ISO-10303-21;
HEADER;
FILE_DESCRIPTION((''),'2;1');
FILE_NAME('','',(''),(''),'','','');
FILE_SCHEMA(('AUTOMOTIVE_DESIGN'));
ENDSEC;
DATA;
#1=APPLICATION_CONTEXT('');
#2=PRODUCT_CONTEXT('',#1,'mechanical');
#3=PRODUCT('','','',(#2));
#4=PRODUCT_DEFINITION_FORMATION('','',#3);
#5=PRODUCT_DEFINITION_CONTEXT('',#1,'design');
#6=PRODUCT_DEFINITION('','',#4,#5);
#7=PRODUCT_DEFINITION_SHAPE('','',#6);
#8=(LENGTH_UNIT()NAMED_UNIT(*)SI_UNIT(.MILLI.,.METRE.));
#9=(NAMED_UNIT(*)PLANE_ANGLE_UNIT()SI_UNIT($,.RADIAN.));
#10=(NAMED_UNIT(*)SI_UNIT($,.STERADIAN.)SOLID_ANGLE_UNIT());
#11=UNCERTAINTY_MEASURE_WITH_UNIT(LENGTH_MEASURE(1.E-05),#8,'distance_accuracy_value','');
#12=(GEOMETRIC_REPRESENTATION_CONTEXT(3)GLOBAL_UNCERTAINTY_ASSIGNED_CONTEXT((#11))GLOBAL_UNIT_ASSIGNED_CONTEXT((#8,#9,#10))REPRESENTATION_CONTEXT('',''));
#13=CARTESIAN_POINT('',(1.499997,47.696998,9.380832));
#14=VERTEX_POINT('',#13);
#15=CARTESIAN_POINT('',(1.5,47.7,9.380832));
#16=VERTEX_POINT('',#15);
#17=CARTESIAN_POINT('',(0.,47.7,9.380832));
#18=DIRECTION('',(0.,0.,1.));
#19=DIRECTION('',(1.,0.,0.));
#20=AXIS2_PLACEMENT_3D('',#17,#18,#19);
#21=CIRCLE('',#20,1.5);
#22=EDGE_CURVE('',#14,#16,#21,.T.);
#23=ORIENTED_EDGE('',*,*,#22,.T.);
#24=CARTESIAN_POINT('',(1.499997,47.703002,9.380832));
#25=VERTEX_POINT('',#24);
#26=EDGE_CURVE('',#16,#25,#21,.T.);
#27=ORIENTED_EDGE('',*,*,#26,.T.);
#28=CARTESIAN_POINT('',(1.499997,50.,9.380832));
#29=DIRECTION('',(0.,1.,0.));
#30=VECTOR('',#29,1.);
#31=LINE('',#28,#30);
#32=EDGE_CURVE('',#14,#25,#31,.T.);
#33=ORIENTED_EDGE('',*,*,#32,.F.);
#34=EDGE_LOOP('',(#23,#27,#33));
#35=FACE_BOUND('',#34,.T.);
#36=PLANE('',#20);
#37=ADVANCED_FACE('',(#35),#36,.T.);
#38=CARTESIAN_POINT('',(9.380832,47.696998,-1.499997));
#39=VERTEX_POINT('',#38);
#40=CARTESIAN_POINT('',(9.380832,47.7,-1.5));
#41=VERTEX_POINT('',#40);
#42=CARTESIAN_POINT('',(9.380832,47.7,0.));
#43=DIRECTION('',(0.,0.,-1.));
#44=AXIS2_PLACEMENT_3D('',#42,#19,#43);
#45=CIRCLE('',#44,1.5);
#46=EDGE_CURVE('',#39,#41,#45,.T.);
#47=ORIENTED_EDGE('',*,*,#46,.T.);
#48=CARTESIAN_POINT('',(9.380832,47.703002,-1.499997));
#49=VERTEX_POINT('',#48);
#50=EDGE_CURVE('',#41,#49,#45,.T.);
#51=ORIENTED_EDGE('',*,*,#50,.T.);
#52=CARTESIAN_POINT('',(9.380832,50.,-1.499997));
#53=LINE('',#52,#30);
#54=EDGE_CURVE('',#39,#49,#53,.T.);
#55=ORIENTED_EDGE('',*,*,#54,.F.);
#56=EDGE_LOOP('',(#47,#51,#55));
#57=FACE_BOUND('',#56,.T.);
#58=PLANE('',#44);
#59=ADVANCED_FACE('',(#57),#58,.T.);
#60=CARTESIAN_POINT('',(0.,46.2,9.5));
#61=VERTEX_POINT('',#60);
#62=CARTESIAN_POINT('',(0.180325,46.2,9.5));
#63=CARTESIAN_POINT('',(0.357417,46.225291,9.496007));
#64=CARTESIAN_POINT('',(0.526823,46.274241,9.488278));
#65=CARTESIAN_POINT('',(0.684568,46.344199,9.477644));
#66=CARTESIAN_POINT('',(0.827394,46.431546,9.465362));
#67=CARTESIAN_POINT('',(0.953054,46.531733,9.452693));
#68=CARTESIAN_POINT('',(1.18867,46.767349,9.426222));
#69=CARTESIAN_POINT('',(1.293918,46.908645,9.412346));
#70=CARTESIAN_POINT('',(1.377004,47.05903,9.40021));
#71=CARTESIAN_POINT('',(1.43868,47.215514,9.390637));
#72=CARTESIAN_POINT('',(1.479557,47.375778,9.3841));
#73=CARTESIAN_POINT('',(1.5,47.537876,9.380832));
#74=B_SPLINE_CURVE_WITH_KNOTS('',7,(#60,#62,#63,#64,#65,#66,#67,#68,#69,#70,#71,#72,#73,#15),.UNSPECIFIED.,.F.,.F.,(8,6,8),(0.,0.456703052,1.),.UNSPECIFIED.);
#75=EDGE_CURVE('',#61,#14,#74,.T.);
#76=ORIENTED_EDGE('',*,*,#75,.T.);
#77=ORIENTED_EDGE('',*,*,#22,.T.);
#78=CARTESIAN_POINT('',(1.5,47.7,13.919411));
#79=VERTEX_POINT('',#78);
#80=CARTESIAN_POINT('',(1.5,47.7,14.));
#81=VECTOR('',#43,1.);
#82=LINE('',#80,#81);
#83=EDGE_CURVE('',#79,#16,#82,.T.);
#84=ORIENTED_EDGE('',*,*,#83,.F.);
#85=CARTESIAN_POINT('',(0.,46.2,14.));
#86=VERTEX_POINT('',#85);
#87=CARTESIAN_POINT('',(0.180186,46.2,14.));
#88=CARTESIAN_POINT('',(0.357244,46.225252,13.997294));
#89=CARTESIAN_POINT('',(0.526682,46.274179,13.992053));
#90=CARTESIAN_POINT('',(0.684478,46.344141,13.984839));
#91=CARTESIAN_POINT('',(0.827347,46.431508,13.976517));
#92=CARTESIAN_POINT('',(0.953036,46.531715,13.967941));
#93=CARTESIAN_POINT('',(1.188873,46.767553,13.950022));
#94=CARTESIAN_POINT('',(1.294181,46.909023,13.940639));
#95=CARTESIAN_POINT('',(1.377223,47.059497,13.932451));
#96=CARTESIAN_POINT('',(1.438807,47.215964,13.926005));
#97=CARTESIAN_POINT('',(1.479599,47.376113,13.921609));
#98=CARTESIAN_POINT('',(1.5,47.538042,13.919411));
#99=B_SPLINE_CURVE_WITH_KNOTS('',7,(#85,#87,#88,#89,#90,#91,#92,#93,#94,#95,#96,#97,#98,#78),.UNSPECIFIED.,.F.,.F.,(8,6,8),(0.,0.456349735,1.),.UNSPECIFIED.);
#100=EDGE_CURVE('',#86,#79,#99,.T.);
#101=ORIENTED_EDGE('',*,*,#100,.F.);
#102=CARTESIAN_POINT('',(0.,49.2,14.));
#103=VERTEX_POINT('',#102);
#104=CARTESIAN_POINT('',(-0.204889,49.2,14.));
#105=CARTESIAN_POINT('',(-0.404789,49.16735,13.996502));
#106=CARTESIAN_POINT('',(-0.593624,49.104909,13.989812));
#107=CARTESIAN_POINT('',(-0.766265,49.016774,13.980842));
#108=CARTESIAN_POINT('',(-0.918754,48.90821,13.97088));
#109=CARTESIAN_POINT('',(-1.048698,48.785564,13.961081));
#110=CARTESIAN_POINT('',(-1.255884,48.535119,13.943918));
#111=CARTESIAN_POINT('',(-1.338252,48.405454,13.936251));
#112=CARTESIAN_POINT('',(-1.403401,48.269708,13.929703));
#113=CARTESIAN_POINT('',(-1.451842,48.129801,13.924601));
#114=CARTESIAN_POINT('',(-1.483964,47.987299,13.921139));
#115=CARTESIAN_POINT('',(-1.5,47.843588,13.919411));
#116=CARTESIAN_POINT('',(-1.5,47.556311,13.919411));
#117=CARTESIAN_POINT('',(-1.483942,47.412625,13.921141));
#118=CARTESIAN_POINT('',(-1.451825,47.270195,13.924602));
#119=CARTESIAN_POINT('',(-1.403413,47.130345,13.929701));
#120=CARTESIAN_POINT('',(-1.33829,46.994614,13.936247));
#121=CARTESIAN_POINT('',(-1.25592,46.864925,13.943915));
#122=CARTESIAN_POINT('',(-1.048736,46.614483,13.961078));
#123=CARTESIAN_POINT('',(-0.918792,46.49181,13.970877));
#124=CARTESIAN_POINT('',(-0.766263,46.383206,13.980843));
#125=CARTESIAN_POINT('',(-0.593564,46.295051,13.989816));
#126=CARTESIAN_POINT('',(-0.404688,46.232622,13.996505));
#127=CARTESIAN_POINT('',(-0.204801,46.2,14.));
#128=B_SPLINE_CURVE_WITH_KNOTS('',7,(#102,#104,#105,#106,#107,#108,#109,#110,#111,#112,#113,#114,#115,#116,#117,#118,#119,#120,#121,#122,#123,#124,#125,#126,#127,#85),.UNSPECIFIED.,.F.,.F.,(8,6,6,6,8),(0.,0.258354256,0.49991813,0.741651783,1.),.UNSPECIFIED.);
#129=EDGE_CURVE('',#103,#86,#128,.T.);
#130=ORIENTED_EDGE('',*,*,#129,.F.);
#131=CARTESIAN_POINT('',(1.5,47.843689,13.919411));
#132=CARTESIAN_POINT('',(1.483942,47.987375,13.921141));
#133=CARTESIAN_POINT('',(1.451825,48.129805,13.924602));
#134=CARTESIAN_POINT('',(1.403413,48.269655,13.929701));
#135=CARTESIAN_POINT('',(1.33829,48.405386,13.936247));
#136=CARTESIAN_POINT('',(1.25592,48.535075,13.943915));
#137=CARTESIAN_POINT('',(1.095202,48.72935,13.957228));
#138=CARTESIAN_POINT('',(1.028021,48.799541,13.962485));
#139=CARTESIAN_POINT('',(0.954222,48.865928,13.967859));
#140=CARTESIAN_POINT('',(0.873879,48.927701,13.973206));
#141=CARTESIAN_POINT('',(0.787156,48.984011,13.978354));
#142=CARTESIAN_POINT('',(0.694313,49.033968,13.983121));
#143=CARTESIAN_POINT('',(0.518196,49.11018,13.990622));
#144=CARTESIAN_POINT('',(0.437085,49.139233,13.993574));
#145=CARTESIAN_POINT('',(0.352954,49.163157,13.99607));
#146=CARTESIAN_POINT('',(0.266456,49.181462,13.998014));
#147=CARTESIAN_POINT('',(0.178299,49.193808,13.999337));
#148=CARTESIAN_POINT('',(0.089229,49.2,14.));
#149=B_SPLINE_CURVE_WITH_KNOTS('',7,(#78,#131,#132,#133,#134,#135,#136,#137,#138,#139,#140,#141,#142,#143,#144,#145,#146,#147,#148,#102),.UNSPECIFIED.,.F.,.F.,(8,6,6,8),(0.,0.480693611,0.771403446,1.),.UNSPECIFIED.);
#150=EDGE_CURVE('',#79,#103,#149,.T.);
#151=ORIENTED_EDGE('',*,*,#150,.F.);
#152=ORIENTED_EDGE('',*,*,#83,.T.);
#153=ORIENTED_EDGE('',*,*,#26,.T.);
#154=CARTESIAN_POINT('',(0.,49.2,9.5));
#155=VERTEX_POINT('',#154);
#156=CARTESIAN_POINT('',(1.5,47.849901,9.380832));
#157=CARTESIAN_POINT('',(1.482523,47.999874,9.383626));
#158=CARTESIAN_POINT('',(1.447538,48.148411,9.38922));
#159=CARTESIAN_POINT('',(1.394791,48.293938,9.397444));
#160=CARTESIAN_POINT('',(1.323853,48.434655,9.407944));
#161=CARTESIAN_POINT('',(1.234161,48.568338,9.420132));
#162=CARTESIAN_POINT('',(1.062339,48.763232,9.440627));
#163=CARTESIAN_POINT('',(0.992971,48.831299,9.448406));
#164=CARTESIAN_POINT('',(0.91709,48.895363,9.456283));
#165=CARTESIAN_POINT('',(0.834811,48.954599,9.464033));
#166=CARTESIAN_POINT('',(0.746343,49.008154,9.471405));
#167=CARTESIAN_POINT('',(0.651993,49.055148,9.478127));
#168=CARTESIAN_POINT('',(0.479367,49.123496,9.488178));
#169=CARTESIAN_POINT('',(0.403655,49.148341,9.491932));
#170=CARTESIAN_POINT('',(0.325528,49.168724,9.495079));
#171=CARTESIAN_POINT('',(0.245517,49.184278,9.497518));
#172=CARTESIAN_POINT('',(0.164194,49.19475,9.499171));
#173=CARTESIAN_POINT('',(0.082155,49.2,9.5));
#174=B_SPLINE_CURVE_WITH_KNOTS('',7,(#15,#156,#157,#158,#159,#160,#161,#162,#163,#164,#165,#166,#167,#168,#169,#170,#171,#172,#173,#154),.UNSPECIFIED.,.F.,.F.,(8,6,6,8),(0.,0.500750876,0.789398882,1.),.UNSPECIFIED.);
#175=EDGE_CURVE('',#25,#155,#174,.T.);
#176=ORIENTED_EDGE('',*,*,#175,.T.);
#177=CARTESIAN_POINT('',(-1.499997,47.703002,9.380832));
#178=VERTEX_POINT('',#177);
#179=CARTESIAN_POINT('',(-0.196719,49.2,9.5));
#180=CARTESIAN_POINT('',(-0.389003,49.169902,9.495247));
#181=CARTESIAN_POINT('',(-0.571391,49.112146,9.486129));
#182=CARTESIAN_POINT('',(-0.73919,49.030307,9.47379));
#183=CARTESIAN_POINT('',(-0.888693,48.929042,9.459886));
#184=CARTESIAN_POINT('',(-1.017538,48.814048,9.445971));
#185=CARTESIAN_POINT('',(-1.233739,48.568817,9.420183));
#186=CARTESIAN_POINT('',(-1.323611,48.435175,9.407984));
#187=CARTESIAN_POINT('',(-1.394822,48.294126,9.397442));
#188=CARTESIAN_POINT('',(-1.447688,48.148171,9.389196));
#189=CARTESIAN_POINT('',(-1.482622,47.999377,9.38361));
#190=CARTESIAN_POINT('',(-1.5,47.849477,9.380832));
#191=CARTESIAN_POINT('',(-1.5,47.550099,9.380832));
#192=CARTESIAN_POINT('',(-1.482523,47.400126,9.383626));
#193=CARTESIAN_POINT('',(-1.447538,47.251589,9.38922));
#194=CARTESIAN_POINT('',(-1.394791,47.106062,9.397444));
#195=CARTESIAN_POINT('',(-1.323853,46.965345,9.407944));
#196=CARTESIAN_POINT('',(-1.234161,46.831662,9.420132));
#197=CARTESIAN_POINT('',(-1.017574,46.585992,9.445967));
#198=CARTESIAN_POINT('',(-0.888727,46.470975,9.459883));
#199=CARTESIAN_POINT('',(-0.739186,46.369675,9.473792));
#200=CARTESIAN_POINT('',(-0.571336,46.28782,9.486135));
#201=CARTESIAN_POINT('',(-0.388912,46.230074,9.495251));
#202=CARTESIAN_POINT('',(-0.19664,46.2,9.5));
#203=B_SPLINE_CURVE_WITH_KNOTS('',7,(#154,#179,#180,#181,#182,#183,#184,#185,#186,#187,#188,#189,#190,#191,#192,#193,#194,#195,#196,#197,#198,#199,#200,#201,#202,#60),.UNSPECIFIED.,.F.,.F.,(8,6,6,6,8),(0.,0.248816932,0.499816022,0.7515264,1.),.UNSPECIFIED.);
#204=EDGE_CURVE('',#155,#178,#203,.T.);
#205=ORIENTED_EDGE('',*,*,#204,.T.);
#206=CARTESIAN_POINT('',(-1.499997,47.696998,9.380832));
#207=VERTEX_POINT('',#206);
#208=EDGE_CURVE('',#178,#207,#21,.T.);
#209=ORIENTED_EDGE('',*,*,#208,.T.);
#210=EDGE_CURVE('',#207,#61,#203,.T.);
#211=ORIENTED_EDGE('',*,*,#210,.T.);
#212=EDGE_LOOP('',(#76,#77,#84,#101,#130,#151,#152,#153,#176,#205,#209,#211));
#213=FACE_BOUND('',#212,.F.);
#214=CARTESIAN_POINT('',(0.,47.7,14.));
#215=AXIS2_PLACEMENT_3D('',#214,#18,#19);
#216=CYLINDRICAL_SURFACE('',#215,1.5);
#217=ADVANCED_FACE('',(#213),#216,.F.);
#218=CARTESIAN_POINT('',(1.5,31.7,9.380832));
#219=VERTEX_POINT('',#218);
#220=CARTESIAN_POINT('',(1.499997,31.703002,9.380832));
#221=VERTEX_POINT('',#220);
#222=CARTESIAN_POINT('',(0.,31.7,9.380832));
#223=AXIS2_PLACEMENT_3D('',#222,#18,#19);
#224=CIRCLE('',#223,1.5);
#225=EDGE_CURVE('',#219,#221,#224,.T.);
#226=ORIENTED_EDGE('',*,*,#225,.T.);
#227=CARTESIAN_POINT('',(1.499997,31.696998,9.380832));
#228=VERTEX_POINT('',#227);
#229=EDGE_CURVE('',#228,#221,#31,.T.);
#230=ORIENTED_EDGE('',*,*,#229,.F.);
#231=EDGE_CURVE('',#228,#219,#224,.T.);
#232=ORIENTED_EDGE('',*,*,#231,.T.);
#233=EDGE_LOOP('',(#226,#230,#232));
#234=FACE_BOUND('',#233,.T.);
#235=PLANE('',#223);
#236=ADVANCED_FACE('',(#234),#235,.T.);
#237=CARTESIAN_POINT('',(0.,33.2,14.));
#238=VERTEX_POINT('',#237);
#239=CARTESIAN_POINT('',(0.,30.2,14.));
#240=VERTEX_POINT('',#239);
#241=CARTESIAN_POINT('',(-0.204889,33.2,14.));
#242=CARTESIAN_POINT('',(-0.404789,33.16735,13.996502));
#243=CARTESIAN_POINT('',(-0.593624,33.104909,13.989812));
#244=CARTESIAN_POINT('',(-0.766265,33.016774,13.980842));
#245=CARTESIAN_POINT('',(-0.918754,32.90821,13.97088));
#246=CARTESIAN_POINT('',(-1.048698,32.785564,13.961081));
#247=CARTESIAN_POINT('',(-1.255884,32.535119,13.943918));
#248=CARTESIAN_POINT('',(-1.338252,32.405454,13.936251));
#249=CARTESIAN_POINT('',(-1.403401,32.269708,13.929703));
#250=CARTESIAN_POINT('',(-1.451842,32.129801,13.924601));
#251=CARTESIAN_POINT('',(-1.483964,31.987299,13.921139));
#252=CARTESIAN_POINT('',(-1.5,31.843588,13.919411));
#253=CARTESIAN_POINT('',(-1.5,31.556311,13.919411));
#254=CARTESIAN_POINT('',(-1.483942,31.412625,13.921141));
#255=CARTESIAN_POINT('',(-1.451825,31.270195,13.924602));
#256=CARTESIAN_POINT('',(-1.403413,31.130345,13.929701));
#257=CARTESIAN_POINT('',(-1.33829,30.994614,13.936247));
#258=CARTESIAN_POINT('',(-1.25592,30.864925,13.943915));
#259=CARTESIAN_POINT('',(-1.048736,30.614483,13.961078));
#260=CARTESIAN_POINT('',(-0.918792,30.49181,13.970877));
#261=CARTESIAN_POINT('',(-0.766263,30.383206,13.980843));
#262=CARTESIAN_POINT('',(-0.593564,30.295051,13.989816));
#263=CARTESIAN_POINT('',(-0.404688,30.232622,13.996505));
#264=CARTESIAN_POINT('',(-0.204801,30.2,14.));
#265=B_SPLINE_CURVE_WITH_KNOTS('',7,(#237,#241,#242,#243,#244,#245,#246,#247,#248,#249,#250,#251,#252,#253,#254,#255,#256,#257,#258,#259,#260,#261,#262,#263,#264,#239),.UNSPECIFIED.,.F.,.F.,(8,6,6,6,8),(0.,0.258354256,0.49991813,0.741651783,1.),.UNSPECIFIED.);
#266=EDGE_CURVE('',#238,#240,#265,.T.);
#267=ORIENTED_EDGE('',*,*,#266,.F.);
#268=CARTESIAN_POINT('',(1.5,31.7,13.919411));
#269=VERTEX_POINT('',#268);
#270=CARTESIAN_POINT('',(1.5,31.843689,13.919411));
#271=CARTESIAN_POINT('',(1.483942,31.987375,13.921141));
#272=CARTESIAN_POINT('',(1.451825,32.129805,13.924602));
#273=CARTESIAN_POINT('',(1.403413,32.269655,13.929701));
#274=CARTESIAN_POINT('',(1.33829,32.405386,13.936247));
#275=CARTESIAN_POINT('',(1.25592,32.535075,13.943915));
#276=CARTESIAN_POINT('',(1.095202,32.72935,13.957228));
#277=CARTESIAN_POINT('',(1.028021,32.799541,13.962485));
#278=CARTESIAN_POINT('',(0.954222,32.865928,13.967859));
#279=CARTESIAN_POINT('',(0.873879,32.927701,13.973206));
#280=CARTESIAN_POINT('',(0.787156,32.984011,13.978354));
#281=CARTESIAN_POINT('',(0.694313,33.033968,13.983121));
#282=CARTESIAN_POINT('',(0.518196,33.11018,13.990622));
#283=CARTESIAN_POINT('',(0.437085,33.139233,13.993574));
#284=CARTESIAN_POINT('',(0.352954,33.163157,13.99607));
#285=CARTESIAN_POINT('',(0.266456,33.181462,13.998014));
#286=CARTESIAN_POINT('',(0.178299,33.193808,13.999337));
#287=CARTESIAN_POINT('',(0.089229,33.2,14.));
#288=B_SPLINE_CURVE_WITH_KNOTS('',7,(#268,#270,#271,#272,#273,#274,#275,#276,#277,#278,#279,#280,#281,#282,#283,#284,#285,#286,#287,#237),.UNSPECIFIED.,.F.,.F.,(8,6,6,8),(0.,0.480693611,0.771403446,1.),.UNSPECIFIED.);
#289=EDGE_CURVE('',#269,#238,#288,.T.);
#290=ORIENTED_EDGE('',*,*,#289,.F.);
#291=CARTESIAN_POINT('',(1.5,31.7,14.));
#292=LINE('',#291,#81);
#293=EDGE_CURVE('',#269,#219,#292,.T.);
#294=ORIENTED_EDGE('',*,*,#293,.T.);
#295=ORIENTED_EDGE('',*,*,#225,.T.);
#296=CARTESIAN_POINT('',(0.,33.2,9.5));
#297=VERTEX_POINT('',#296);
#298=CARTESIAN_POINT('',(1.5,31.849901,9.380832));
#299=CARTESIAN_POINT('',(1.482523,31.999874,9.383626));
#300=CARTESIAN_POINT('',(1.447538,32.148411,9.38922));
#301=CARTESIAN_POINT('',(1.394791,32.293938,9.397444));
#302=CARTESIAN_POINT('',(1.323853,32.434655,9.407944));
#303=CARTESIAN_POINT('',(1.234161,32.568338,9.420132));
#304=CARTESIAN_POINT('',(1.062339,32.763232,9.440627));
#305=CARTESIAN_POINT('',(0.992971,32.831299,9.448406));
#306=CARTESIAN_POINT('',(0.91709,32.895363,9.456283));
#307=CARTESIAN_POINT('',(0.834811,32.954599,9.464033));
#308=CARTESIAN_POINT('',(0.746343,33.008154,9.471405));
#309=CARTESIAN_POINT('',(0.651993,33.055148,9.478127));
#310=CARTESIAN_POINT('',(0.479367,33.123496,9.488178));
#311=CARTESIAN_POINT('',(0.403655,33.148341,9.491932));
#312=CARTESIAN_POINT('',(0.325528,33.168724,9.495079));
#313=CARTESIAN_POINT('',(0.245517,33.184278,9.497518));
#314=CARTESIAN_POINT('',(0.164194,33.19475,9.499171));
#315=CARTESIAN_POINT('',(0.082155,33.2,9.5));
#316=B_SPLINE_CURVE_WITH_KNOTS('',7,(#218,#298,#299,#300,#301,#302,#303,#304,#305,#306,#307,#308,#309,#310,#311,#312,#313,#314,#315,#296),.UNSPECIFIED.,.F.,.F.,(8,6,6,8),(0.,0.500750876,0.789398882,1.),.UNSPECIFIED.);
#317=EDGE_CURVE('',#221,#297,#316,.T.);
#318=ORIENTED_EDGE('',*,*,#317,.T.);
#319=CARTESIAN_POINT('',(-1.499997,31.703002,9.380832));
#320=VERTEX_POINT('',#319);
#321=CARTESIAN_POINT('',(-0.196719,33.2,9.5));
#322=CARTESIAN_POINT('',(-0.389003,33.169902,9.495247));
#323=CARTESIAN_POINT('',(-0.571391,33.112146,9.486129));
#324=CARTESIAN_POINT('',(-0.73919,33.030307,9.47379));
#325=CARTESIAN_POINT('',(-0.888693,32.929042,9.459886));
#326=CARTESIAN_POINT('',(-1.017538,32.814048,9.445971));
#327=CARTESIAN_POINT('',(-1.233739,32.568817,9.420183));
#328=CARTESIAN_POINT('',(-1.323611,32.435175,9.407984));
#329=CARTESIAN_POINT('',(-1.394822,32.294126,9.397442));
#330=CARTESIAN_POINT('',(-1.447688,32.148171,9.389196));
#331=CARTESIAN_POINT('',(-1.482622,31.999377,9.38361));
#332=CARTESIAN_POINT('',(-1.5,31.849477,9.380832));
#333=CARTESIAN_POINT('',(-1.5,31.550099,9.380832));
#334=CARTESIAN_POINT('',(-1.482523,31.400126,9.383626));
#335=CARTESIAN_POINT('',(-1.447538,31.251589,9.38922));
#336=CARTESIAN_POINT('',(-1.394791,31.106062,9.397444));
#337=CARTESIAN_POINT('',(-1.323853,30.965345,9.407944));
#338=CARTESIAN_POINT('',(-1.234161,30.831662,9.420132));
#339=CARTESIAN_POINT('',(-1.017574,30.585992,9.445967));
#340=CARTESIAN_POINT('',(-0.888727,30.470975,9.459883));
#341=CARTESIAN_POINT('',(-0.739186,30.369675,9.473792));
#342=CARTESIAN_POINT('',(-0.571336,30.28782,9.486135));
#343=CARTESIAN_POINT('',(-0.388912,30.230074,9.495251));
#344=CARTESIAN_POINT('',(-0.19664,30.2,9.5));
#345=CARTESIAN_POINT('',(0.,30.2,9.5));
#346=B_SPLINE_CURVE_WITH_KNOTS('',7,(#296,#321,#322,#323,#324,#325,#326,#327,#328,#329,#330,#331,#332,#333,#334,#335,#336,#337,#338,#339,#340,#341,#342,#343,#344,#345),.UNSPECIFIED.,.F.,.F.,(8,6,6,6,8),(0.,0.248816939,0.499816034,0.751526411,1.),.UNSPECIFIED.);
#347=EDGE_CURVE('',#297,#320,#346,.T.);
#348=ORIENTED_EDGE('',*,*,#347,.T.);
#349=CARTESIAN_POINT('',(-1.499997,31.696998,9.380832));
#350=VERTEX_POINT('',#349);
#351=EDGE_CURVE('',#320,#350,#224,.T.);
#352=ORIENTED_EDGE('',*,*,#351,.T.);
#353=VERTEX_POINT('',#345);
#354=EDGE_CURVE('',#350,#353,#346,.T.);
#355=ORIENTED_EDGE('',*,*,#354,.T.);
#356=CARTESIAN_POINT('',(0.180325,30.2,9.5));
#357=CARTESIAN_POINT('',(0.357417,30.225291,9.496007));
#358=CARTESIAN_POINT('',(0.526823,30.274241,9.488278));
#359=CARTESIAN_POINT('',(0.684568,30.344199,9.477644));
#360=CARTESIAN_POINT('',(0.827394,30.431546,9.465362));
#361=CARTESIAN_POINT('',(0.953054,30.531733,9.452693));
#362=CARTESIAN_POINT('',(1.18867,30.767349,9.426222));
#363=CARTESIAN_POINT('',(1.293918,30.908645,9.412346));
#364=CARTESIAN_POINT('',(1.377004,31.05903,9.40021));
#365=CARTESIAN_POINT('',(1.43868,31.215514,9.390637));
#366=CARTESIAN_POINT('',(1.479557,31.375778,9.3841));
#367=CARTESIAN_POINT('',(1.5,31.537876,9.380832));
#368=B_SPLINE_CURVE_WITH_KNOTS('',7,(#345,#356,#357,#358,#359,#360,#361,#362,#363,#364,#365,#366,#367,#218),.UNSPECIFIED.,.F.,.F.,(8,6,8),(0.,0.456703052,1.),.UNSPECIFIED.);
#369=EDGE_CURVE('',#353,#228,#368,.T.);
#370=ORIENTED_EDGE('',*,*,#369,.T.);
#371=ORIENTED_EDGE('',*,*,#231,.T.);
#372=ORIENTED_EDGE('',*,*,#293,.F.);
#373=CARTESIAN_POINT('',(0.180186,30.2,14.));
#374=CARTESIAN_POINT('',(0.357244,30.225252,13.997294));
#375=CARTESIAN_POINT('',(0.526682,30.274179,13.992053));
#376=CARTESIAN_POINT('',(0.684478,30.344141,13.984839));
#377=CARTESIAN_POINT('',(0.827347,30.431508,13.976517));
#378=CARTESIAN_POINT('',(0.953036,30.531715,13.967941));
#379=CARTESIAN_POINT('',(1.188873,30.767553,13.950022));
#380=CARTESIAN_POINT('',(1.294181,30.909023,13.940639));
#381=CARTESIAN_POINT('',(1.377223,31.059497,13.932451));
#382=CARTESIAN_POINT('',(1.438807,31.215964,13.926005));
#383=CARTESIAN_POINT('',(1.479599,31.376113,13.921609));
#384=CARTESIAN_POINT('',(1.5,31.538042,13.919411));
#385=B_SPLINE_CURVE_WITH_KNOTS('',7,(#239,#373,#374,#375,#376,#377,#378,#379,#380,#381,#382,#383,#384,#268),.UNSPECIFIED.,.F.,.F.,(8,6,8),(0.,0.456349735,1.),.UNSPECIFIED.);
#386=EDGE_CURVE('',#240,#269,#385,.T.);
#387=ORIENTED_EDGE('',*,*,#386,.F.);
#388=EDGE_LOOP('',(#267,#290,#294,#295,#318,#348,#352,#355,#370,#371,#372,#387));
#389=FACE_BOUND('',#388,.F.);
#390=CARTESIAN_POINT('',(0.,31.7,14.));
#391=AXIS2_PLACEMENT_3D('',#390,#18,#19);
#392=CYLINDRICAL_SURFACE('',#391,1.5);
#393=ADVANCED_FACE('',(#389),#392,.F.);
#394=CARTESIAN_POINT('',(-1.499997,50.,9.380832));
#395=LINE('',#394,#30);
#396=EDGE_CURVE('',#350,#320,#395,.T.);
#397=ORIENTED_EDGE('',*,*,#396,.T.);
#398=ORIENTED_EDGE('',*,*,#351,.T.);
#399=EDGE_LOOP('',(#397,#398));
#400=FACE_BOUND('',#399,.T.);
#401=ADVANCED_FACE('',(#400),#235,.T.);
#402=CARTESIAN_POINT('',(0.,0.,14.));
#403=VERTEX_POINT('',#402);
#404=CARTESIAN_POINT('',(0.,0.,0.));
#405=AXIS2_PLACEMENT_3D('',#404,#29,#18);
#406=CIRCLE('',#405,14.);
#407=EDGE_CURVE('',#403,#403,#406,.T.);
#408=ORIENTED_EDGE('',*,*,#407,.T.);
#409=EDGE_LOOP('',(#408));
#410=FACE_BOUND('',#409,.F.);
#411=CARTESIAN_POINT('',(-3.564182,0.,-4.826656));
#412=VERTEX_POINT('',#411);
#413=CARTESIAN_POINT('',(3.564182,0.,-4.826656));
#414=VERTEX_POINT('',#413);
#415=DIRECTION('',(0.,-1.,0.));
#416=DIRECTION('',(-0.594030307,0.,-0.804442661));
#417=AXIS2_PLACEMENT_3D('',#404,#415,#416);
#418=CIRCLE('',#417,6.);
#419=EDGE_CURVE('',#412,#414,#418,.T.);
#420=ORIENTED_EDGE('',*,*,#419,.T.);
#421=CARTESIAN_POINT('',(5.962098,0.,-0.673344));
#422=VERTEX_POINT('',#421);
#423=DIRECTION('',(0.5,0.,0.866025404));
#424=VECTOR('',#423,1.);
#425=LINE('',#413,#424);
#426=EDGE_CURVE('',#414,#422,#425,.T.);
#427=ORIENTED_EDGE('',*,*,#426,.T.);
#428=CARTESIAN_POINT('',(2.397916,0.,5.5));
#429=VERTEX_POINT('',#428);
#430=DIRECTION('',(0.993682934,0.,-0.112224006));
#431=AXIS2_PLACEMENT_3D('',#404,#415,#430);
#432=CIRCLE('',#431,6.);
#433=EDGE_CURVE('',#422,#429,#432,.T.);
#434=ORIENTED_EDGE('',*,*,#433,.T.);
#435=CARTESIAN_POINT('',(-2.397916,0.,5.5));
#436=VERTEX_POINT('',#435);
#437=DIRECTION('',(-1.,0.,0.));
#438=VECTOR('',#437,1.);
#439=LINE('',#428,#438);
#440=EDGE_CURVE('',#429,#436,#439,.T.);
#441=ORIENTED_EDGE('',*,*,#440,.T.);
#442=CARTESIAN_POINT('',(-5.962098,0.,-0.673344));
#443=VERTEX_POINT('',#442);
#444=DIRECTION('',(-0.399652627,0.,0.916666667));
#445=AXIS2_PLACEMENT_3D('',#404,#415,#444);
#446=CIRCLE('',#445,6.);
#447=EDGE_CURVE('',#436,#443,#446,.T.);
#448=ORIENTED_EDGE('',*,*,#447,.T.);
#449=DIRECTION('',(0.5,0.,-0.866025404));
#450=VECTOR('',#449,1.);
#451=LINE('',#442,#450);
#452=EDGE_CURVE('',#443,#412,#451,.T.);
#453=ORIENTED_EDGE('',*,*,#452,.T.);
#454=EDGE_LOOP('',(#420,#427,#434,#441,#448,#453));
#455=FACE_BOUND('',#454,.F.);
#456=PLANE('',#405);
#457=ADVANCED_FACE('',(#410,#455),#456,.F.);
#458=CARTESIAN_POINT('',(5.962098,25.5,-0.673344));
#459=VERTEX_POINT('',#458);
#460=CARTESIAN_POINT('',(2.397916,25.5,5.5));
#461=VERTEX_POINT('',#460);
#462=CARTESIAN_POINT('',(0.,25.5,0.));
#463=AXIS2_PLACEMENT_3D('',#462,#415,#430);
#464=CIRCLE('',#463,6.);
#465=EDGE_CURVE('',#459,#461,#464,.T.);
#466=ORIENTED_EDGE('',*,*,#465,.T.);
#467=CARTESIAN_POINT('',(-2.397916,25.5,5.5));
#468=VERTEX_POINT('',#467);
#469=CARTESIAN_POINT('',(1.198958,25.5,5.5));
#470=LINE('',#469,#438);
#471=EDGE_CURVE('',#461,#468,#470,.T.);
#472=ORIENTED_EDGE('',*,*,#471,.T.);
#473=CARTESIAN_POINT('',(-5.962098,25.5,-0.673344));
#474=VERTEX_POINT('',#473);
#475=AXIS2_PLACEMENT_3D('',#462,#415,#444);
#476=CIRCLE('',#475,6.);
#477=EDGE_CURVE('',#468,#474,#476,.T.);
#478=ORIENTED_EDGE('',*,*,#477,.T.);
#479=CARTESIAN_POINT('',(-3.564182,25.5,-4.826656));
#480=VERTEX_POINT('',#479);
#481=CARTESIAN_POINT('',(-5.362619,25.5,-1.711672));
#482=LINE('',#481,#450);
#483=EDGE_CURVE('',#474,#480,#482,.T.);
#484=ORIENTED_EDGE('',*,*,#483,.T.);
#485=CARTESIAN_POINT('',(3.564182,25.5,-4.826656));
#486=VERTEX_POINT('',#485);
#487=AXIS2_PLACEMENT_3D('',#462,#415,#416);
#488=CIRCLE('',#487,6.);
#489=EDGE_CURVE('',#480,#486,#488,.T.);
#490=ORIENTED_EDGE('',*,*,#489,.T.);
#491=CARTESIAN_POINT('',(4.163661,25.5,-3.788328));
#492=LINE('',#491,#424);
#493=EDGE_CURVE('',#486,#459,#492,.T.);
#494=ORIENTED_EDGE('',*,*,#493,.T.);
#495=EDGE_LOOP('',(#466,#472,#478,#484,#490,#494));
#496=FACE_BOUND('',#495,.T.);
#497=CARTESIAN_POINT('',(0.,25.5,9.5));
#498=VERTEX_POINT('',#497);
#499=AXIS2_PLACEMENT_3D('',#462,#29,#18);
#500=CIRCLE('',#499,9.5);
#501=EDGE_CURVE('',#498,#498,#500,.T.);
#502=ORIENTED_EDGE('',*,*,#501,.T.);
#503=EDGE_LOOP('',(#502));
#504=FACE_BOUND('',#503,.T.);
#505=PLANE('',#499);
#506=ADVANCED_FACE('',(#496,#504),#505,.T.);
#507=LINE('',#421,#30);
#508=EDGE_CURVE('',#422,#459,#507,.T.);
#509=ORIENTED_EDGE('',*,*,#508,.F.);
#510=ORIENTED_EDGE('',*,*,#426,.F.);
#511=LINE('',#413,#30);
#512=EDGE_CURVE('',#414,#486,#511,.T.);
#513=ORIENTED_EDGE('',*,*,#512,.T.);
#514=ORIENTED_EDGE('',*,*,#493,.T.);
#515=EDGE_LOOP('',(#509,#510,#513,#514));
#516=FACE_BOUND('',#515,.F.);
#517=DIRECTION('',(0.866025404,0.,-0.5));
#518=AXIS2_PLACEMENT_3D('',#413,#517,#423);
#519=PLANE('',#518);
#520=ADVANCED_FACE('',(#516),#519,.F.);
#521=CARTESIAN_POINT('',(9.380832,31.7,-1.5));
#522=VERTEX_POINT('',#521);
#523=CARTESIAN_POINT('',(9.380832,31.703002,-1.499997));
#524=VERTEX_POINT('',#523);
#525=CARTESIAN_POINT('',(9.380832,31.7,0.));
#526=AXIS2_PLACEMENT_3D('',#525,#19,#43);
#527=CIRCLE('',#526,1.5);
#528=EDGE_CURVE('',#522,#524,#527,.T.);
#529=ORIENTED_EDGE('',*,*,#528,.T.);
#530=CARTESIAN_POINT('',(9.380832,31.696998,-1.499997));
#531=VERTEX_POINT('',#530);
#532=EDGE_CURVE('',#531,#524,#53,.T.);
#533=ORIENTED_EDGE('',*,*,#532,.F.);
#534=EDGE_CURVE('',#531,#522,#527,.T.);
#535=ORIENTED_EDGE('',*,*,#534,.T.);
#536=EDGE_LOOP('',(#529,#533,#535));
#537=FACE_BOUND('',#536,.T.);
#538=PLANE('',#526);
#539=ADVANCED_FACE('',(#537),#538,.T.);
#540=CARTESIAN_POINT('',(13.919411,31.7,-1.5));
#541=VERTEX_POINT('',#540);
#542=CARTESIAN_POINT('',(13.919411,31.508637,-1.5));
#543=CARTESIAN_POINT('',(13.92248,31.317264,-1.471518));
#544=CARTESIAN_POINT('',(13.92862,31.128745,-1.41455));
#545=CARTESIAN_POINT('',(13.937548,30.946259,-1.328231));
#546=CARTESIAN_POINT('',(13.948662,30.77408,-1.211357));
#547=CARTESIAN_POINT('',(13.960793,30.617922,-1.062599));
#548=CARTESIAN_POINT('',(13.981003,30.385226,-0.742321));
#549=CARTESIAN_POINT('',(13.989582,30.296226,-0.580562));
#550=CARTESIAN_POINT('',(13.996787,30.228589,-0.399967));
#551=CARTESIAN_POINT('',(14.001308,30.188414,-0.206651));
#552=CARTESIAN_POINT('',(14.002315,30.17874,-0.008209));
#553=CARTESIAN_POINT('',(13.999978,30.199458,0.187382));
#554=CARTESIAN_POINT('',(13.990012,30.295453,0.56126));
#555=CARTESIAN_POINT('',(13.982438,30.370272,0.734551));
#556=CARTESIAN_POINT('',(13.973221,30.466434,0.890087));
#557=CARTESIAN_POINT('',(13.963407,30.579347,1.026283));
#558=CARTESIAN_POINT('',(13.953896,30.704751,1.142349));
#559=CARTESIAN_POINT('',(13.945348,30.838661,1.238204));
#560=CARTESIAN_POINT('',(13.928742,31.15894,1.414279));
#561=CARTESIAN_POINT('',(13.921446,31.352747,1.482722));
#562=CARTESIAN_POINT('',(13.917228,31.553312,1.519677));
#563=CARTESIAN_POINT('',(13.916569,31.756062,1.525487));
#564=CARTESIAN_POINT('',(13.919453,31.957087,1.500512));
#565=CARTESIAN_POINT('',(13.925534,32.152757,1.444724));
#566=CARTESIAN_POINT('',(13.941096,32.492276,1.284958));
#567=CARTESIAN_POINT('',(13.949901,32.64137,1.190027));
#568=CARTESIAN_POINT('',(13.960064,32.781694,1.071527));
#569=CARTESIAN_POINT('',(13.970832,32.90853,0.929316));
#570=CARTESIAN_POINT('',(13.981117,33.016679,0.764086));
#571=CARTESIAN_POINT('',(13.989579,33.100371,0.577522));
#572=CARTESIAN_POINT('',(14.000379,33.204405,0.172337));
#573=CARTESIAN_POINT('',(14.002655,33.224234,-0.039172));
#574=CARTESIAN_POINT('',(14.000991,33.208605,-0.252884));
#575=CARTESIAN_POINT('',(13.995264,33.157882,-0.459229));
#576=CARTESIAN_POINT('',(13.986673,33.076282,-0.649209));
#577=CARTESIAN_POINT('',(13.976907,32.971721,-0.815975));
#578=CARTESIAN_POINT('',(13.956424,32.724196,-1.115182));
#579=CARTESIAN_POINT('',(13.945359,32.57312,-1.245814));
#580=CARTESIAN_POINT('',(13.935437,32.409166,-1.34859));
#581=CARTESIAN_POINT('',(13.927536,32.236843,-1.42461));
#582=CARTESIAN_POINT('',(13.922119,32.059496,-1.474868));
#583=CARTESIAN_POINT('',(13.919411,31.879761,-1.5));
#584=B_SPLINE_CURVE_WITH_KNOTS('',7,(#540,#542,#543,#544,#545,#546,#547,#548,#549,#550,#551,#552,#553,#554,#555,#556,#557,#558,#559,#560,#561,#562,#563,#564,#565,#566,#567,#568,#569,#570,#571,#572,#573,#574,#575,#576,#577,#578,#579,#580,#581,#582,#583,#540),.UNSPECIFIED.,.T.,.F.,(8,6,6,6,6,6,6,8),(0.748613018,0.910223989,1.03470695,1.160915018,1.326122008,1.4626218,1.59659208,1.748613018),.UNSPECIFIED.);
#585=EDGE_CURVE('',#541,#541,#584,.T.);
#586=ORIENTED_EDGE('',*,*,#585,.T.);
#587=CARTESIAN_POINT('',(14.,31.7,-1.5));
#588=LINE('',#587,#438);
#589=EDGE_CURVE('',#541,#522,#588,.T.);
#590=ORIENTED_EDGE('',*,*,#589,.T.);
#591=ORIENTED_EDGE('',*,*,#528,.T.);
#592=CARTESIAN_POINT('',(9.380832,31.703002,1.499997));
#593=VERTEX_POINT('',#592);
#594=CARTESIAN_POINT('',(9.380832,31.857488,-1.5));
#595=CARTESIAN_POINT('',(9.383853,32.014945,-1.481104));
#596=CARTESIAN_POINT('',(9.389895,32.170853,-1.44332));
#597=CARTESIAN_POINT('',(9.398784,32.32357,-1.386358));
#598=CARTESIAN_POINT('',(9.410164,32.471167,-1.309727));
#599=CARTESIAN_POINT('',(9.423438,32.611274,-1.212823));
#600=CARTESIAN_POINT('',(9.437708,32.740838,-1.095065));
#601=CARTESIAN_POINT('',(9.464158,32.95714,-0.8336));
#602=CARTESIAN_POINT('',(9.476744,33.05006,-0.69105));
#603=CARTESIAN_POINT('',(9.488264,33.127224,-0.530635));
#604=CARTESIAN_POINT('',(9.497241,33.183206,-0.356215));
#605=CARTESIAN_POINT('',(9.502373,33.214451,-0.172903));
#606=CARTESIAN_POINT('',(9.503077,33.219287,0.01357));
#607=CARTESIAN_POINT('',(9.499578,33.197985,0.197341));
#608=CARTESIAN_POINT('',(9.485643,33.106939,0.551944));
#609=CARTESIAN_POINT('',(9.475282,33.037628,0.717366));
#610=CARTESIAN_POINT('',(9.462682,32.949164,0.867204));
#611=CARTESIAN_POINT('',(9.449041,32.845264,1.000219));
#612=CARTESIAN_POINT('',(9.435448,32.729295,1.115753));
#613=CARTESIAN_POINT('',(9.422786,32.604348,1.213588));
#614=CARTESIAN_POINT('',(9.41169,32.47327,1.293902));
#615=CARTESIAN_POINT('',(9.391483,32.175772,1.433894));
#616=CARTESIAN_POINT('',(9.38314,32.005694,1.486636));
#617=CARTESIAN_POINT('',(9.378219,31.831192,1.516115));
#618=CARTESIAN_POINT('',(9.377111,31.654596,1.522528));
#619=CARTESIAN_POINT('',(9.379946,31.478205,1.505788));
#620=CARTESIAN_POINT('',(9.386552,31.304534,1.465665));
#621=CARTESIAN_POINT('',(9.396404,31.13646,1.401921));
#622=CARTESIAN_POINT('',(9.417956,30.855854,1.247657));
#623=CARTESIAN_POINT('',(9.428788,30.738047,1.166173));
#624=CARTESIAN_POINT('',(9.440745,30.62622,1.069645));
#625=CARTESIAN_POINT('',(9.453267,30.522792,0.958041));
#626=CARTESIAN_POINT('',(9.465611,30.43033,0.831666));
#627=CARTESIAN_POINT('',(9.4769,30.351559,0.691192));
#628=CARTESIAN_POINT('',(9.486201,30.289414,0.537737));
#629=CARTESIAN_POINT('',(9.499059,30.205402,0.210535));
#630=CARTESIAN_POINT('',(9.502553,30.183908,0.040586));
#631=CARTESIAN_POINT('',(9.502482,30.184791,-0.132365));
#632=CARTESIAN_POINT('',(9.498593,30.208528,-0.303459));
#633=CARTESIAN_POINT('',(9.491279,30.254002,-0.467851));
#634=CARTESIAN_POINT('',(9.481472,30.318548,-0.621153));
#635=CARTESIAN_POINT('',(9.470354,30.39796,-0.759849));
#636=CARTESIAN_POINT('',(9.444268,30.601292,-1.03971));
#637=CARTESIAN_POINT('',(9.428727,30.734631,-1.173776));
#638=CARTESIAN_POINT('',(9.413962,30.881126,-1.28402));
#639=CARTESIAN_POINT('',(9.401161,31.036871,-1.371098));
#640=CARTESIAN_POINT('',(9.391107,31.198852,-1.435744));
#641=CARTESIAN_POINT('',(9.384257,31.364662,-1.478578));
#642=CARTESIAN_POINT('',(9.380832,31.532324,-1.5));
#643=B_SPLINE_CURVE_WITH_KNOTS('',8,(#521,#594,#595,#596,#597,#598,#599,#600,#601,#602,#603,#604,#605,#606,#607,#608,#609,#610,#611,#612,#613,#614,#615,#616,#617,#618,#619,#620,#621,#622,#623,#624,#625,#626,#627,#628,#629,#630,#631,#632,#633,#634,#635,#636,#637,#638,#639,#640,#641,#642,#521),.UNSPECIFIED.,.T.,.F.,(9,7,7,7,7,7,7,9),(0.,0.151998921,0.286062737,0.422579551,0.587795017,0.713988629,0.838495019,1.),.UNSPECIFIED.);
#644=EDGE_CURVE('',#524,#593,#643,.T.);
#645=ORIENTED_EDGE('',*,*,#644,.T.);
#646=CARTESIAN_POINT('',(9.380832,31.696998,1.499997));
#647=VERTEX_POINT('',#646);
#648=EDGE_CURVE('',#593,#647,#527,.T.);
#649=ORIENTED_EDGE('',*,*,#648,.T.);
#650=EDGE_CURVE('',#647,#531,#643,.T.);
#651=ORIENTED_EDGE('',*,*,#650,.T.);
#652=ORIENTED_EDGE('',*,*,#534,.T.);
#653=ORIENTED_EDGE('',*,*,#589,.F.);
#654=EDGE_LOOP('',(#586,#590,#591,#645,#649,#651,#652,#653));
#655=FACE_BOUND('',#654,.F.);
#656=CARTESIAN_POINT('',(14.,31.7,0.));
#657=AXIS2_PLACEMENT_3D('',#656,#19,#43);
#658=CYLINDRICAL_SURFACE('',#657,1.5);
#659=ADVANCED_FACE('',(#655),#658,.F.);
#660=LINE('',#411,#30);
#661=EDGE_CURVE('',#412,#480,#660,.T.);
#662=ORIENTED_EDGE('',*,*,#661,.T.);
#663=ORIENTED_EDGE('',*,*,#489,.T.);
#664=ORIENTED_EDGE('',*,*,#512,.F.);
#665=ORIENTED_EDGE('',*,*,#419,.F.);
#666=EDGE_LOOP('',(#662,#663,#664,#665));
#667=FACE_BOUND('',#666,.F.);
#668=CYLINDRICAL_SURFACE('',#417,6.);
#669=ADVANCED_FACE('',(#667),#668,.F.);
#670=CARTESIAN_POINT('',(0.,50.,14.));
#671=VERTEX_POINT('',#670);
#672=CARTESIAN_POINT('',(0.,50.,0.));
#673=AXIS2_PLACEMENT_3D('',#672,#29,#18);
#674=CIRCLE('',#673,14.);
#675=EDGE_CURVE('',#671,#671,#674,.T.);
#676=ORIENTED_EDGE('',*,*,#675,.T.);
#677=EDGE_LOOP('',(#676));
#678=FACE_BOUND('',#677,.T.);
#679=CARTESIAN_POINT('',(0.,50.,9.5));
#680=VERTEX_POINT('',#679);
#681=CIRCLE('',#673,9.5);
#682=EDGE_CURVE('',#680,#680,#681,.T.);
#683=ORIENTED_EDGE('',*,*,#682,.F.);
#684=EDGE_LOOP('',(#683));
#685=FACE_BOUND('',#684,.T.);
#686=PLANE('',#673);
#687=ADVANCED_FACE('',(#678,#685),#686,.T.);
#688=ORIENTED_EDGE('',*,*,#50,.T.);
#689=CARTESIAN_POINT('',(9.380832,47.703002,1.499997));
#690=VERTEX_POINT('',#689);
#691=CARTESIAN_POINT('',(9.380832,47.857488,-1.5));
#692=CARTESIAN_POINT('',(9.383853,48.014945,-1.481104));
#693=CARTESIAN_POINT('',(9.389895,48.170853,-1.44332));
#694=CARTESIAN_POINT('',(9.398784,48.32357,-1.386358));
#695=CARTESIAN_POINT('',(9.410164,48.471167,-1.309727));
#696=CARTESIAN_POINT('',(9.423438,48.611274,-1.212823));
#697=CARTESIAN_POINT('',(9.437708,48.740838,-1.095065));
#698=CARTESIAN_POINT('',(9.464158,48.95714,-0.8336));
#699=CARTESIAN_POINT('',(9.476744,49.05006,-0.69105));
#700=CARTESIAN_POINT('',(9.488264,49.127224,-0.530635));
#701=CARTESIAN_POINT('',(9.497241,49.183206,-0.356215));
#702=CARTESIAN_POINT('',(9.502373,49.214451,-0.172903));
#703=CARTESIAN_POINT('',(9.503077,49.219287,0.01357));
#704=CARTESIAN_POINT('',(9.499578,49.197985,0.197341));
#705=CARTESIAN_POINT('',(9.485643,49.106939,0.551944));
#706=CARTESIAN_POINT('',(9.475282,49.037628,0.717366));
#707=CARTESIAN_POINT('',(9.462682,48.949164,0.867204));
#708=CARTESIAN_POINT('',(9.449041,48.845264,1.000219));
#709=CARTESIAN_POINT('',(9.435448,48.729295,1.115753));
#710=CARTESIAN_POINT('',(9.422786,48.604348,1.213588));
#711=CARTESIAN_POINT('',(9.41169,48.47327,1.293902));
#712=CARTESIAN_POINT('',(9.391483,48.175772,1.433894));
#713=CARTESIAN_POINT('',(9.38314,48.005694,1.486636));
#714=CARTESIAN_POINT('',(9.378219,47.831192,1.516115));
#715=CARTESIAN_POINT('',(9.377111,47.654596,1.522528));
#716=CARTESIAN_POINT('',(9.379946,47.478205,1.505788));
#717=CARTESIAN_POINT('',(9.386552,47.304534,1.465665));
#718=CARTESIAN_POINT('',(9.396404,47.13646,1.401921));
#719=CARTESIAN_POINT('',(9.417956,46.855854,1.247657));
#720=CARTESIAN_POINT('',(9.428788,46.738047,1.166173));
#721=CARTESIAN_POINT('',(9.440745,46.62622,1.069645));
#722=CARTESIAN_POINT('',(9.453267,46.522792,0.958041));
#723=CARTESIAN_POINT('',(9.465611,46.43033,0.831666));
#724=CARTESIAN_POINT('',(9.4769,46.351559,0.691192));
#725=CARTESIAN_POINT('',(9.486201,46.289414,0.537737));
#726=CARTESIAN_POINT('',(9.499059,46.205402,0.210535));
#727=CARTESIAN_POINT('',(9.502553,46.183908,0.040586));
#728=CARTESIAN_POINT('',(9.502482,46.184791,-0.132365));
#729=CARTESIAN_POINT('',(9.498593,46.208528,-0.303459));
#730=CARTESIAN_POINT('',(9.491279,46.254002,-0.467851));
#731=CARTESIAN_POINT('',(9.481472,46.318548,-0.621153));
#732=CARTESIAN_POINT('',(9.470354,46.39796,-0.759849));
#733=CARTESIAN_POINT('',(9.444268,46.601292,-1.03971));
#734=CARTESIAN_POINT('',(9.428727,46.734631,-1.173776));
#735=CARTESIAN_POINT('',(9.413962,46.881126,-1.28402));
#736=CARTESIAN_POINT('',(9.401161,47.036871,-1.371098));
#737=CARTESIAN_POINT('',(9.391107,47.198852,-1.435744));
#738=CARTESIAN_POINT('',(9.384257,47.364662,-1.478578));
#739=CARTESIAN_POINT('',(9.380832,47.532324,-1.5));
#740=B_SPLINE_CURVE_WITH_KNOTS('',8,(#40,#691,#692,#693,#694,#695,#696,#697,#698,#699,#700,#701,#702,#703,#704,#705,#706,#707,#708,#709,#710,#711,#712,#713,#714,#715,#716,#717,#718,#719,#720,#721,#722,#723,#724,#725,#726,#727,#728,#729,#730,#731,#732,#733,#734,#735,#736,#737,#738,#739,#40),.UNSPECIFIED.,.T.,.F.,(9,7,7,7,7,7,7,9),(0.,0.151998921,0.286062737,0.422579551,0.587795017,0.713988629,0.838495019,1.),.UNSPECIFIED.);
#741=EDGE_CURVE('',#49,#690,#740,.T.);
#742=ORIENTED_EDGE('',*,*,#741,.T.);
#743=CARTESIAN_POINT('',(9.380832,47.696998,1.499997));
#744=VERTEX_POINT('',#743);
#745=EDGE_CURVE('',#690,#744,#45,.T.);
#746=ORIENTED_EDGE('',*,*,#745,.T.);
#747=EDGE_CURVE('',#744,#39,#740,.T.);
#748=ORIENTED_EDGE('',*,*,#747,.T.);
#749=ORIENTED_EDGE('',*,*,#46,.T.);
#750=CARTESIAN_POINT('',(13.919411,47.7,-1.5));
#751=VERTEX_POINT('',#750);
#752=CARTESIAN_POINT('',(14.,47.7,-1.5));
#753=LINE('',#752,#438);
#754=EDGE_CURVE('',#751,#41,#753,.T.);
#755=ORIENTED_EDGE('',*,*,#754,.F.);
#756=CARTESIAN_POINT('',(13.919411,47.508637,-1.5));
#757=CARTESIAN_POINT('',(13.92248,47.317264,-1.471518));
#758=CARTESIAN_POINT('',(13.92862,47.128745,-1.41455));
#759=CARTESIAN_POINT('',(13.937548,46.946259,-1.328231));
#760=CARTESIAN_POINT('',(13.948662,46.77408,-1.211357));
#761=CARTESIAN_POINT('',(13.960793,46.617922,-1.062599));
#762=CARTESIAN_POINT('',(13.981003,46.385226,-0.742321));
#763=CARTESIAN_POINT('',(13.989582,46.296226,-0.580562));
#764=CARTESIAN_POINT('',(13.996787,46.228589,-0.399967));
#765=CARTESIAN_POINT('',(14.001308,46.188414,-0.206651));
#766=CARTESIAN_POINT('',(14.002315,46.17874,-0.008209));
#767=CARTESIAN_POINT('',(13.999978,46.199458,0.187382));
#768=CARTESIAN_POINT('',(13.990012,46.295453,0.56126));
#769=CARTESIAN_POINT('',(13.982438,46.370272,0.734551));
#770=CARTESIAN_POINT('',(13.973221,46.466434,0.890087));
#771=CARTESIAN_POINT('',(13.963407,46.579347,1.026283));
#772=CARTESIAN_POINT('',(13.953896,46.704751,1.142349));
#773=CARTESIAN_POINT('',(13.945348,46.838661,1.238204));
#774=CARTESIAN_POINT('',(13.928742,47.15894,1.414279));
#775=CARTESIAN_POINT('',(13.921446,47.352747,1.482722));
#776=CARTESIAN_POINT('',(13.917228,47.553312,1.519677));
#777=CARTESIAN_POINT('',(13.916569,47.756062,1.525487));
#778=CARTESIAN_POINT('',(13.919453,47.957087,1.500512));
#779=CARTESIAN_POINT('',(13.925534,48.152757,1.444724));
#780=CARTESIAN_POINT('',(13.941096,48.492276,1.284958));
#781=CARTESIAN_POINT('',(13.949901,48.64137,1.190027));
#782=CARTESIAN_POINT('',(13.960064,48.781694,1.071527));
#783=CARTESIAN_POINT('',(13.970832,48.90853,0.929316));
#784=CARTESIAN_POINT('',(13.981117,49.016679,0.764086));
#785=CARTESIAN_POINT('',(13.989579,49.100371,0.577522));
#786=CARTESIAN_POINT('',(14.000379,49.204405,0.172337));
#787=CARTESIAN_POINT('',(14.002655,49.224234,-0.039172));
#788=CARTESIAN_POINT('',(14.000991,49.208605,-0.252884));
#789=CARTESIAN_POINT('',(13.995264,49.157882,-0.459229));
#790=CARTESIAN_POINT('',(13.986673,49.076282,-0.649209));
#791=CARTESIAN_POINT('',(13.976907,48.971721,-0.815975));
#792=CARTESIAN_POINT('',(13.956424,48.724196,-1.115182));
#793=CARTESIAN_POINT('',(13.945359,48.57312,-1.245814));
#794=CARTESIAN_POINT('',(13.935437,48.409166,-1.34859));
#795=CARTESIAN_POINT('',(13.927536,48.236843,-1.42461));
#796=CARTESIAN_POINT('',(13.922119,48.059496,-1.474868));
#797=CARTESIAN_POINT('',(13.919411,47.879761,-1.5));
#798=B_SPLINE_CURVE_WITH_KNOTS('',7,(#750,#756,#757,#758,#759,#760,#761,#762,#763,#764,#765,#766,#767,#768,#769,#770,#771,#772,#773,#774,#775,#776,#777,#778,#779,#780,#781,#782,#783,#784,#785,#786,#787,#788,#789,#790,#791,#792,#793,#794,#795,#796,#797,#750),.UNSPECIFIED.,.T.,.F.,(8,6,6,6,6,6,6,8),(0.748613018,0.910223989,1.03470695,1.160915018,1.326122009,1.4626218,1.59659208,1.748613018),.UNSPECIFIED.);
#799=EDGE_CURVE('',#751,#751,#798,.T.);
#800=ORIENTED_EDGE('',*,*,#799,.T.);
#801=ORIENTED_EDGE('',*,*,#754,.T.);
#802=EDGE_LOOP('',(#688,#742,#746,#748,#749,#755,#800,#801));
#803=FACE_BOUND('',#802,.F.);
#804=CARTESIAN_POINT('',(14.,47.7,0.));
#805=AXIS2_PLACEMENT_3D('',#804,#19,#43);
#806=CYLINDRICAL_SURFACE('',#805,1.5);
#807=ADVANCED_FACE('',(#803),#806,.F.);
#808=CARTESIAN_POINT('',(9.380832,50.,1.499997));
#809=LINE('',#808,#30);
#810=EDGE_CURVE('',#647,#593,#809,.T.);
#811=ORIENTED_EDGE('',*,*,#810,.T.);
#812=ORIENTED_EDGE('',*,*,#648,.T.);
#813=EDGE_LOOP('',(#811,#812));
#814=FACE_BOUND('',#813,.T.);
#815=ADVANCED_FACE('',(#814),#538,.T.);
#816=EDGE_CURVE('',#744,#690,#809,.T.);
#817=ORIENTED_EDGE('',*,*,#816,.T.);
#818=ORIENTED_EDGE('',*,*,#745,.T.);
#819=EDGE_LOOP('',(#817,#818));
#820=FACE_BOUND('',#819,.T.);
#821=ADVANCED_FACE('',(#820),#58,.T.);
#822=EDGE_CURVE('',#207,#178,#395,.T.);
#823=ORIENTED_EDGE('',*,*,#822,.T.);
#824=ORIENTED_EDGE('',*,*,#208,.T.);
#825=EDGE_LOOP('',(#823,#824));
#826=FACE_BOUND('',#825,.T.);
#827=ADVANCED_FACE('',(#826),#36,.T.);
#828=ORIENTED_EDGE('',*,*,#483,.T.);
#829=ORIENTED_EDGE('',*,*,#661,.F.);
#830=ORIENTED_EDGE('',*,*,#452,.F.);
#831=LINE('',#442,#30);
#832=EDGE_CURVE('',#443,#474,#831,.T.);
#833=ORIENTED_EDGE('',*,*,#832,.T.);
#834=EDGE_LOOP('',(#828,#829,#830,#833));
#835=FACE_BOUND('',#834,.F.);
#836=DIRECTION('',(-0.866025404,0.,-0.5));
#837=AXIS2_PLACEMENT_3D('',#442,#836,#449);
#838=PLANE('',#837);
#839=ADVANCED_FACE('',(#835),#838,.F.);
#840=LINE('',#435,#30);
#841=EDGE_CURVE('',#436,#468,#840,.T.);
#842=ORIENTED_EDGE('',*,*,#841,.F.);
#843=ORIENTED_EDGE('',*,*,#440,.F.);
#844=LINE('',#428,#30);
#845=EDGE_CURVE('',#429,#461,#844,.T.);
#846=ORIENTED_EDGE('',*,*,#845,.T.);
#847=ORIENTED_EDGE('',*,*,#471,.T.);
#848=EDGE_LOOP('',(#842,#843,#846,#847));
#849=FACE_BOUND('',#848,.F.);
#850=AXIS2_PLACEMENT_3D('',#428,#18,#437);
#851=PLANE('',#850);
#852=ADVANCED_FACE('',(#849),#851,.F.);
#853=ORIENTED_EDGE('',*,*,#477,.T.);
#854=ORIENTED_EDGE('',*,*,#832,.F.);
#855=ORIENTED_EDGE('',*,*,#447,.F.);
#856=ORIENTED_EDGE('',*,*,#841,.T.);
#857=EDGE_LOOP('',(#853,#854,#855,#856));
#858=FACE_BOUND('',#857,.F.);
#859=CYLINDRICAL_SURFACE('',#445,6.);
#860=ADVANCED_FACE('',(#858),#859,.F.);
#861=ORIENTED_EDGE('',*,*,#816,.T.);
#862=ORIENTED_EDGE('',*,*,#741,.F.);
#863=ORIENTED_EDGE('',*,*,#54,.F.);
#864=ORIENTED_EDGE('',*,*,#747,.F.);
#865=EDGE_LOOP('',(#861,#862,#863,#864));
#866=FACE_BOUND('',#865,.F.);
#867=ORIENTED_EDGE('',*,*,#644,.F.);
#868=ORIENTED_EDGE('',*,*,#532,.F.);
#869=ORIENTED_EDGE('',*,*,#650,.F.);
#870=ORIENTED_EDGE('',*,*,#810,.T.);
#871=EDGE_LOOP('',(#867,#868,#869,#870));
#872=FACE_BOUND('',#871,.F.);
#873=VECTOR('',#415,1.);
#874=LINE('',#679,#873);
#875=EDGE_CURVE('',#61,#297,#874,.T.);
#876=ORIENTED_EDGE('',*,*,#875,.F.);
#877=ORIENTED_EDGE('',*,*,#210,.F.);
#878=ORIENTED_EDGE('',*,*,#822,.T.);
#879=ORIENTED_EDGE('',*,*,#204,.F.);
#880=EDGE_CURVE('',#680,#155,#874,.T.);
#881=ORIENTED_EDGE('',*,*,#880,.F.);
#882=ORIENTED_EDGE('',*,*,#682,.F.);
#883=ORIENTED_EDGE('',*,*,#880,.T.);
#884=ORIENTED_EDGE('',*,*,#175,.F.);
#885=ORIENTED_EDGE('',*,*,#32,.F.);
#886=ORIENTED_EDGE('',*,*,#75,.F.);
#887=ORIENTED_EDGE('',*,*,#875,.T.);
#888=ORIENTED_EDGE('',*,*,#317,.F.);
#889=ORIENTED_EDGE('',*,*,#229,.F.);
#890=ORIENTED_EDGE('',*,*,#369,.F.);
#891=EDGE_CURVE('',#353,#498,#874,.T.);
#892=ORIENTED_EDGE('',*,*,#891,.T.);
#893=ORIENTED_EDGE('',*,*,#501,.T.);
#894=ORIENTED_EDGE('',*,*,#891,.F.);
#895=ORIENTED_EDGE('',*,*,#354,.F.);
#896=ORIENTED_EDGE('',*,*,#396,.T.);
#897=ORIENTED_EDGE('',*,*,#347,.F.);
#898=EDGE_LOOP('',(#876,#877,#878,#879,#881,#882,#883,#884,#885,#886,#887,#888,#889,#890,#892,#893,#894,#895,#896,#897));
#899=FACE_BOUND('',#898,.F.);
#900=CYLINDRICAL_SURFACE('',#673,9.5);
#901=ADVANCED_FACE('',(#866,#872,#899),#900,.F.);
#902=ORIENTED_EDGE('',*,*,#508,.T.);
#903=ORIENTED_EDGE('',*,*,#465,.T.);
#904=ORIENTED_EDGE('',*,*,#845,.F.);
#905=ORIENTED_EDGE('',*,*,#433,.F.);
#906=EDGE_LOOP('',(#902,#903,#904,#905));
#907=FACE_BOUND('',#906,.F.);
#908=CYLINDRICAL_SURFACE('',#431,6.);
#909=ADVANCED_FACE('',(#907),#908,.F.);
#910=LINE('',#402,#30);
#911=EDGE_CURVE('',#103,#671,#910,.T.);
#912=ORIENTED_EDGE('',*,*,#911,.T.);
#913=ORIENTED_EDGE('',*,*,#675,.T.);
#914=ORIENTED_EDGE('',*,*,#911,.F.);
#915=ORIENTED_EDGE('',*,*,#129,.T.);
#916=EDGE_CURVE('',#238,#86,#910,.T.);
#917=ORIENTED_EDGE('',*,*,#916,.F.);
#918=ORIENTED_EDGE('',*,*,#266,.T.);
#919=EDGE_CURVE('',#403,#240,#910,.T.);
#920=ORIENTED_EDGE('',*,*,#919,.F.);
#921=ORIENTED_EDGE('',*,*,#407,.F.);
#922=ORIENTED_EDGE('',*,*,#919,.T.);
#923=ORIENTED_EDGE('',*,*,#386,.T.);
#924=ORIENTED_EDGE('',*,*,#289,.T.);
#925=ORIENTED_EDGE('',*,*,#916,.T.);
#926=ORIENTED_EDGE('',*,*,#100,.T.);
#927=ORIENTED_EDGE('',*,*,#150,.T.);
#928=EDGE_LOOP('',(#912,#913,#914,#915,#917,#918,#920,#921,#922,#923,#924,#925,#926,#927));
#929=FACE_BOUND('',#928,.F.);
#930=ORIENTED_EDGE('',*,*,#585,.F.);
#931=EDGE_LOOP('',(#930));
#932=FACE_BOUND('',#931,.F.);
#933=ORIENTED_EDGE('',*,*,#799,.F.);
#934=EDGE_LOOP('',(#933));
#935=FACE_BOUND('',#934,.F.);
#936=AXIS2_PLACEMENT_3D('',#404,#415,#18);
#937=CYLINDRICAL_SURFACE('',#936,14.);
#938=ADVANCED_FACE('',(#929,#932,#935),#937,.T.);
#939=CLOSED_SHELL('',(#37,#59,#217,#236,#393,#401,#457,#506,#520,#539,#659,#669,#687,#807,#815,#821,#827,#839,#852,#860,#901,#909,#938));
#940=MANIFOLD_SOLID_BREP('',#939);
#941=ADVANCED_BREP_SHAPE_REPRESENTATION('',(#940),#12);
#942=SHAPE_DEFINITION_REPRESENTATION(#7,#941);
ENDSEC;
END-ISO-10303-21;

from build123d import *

# Parameters (mm, degrees)
SKETCH1_R           = 14
BOSS_EXTRUDE1_DEPTH = 50
CUT_EXTRUDE1_DEPTH  = 33
SKETCH3_R           = 9.5
CUT_EXTRUDE2_DEPTH  = 24.5
SKETCH5_R           = 1.5
CUT_EXTRUDE3_DEPTH  = 4.619168
CIRPATTERN1_COUNT   = 2
CIRPATTERN1_ANGLE   = 90


with BuildPart() as part:
    # Sketch1 → Boss-Extrude1 (new body)
    with BuildSketch(Plane(origin=(0, 0, 0), x_dir=(1, 0, 0), z_dir=(0, 1, 0))):
        with Locations(Location((0, 0, 0), (0, 0, 270))):  # turned: the seam where the file's is
            Circle(SKETCH1_R)
    extrude(amount=BOSS_EXTRUDE1_DEPTH)

    # Sketch2 → Cut-Extrude1 (cut)
    with BuildSketch(Plane(origin=(0, 0, 0), x_dir=(-1, 0, 0), z_dir=(0, -1, 0))):
        with BuildLine():
            Line((-2.397915762, -5.5), (2.397915762, -5.5))
            ThreePointArc((2.397915762, -5.5), (5.196152423, -3), (5.962097602, 0.673344034))
            Line((5.962097602, 0.673344034), (3.56418184, 4.826655966))
            ThreePointArc((3.56418184, 4.826655966), (0, 6), (-3.56418184, 4.826655966))
            Line((-3.56418184, 4.826655966), (-5.962097602, 0.673344034))
            ThreePointArc((-5.962097602, 0.673344034), (-5.196152423, -3), (-2.397915762, -5.5))
        make_face()
    extrude(amount=-CUT_EXTRUDE1_DEPTH, mode=Mode.SUBTRACT)

    # Sketch3 → Cut-Extrude2 (cut)
    with BuildSketch(Plane(origin=(0, 50, 0), x_dir=(1, 0, 0), z_dir=(0, 1, 0))):
        with Locations(Location((0, 0, 0), (0, 0, 270))):  # turned: the seam where the file's is
            Circle(SKETCH3_R)
    extrude(amount=-CUT_EXTRUDE2_DEPTH, mode=Mode.SUBTRACT)

    # Sketch5 → Cut-Extrude3 (cut)
    with BuildSketch(Plane(origin=(14, 50, 0), x_dir=(0, 0, -1), z_dir=(1, 0, 0))):
        with Locations((0, -2.3)):
            Circle(SKETCH5_R)
        with Locations((0, -18.3)):
            Circle(SKETCH5_R)
    cut_extrude3 = extrude(amount=-CUT_EXTRUDE3_DEPTH, mode=Mode.SUBTRACT)

    # CirPattern1: Cut-Extrude3 ×2 about axis
    cirpattern1_axis = Axis((0, 33, 0), (0, -1, 0))
    for i in range(1, CIRPATTERN1_COUNT):
        add(cut_extrude3.rotate(cirpattern1_axis, i * CIRPATTERN1_ANGLE / (CIRPATTERN1_COUNT - 1)), mode=Mode.SUBTRACT)


solid = part.part
